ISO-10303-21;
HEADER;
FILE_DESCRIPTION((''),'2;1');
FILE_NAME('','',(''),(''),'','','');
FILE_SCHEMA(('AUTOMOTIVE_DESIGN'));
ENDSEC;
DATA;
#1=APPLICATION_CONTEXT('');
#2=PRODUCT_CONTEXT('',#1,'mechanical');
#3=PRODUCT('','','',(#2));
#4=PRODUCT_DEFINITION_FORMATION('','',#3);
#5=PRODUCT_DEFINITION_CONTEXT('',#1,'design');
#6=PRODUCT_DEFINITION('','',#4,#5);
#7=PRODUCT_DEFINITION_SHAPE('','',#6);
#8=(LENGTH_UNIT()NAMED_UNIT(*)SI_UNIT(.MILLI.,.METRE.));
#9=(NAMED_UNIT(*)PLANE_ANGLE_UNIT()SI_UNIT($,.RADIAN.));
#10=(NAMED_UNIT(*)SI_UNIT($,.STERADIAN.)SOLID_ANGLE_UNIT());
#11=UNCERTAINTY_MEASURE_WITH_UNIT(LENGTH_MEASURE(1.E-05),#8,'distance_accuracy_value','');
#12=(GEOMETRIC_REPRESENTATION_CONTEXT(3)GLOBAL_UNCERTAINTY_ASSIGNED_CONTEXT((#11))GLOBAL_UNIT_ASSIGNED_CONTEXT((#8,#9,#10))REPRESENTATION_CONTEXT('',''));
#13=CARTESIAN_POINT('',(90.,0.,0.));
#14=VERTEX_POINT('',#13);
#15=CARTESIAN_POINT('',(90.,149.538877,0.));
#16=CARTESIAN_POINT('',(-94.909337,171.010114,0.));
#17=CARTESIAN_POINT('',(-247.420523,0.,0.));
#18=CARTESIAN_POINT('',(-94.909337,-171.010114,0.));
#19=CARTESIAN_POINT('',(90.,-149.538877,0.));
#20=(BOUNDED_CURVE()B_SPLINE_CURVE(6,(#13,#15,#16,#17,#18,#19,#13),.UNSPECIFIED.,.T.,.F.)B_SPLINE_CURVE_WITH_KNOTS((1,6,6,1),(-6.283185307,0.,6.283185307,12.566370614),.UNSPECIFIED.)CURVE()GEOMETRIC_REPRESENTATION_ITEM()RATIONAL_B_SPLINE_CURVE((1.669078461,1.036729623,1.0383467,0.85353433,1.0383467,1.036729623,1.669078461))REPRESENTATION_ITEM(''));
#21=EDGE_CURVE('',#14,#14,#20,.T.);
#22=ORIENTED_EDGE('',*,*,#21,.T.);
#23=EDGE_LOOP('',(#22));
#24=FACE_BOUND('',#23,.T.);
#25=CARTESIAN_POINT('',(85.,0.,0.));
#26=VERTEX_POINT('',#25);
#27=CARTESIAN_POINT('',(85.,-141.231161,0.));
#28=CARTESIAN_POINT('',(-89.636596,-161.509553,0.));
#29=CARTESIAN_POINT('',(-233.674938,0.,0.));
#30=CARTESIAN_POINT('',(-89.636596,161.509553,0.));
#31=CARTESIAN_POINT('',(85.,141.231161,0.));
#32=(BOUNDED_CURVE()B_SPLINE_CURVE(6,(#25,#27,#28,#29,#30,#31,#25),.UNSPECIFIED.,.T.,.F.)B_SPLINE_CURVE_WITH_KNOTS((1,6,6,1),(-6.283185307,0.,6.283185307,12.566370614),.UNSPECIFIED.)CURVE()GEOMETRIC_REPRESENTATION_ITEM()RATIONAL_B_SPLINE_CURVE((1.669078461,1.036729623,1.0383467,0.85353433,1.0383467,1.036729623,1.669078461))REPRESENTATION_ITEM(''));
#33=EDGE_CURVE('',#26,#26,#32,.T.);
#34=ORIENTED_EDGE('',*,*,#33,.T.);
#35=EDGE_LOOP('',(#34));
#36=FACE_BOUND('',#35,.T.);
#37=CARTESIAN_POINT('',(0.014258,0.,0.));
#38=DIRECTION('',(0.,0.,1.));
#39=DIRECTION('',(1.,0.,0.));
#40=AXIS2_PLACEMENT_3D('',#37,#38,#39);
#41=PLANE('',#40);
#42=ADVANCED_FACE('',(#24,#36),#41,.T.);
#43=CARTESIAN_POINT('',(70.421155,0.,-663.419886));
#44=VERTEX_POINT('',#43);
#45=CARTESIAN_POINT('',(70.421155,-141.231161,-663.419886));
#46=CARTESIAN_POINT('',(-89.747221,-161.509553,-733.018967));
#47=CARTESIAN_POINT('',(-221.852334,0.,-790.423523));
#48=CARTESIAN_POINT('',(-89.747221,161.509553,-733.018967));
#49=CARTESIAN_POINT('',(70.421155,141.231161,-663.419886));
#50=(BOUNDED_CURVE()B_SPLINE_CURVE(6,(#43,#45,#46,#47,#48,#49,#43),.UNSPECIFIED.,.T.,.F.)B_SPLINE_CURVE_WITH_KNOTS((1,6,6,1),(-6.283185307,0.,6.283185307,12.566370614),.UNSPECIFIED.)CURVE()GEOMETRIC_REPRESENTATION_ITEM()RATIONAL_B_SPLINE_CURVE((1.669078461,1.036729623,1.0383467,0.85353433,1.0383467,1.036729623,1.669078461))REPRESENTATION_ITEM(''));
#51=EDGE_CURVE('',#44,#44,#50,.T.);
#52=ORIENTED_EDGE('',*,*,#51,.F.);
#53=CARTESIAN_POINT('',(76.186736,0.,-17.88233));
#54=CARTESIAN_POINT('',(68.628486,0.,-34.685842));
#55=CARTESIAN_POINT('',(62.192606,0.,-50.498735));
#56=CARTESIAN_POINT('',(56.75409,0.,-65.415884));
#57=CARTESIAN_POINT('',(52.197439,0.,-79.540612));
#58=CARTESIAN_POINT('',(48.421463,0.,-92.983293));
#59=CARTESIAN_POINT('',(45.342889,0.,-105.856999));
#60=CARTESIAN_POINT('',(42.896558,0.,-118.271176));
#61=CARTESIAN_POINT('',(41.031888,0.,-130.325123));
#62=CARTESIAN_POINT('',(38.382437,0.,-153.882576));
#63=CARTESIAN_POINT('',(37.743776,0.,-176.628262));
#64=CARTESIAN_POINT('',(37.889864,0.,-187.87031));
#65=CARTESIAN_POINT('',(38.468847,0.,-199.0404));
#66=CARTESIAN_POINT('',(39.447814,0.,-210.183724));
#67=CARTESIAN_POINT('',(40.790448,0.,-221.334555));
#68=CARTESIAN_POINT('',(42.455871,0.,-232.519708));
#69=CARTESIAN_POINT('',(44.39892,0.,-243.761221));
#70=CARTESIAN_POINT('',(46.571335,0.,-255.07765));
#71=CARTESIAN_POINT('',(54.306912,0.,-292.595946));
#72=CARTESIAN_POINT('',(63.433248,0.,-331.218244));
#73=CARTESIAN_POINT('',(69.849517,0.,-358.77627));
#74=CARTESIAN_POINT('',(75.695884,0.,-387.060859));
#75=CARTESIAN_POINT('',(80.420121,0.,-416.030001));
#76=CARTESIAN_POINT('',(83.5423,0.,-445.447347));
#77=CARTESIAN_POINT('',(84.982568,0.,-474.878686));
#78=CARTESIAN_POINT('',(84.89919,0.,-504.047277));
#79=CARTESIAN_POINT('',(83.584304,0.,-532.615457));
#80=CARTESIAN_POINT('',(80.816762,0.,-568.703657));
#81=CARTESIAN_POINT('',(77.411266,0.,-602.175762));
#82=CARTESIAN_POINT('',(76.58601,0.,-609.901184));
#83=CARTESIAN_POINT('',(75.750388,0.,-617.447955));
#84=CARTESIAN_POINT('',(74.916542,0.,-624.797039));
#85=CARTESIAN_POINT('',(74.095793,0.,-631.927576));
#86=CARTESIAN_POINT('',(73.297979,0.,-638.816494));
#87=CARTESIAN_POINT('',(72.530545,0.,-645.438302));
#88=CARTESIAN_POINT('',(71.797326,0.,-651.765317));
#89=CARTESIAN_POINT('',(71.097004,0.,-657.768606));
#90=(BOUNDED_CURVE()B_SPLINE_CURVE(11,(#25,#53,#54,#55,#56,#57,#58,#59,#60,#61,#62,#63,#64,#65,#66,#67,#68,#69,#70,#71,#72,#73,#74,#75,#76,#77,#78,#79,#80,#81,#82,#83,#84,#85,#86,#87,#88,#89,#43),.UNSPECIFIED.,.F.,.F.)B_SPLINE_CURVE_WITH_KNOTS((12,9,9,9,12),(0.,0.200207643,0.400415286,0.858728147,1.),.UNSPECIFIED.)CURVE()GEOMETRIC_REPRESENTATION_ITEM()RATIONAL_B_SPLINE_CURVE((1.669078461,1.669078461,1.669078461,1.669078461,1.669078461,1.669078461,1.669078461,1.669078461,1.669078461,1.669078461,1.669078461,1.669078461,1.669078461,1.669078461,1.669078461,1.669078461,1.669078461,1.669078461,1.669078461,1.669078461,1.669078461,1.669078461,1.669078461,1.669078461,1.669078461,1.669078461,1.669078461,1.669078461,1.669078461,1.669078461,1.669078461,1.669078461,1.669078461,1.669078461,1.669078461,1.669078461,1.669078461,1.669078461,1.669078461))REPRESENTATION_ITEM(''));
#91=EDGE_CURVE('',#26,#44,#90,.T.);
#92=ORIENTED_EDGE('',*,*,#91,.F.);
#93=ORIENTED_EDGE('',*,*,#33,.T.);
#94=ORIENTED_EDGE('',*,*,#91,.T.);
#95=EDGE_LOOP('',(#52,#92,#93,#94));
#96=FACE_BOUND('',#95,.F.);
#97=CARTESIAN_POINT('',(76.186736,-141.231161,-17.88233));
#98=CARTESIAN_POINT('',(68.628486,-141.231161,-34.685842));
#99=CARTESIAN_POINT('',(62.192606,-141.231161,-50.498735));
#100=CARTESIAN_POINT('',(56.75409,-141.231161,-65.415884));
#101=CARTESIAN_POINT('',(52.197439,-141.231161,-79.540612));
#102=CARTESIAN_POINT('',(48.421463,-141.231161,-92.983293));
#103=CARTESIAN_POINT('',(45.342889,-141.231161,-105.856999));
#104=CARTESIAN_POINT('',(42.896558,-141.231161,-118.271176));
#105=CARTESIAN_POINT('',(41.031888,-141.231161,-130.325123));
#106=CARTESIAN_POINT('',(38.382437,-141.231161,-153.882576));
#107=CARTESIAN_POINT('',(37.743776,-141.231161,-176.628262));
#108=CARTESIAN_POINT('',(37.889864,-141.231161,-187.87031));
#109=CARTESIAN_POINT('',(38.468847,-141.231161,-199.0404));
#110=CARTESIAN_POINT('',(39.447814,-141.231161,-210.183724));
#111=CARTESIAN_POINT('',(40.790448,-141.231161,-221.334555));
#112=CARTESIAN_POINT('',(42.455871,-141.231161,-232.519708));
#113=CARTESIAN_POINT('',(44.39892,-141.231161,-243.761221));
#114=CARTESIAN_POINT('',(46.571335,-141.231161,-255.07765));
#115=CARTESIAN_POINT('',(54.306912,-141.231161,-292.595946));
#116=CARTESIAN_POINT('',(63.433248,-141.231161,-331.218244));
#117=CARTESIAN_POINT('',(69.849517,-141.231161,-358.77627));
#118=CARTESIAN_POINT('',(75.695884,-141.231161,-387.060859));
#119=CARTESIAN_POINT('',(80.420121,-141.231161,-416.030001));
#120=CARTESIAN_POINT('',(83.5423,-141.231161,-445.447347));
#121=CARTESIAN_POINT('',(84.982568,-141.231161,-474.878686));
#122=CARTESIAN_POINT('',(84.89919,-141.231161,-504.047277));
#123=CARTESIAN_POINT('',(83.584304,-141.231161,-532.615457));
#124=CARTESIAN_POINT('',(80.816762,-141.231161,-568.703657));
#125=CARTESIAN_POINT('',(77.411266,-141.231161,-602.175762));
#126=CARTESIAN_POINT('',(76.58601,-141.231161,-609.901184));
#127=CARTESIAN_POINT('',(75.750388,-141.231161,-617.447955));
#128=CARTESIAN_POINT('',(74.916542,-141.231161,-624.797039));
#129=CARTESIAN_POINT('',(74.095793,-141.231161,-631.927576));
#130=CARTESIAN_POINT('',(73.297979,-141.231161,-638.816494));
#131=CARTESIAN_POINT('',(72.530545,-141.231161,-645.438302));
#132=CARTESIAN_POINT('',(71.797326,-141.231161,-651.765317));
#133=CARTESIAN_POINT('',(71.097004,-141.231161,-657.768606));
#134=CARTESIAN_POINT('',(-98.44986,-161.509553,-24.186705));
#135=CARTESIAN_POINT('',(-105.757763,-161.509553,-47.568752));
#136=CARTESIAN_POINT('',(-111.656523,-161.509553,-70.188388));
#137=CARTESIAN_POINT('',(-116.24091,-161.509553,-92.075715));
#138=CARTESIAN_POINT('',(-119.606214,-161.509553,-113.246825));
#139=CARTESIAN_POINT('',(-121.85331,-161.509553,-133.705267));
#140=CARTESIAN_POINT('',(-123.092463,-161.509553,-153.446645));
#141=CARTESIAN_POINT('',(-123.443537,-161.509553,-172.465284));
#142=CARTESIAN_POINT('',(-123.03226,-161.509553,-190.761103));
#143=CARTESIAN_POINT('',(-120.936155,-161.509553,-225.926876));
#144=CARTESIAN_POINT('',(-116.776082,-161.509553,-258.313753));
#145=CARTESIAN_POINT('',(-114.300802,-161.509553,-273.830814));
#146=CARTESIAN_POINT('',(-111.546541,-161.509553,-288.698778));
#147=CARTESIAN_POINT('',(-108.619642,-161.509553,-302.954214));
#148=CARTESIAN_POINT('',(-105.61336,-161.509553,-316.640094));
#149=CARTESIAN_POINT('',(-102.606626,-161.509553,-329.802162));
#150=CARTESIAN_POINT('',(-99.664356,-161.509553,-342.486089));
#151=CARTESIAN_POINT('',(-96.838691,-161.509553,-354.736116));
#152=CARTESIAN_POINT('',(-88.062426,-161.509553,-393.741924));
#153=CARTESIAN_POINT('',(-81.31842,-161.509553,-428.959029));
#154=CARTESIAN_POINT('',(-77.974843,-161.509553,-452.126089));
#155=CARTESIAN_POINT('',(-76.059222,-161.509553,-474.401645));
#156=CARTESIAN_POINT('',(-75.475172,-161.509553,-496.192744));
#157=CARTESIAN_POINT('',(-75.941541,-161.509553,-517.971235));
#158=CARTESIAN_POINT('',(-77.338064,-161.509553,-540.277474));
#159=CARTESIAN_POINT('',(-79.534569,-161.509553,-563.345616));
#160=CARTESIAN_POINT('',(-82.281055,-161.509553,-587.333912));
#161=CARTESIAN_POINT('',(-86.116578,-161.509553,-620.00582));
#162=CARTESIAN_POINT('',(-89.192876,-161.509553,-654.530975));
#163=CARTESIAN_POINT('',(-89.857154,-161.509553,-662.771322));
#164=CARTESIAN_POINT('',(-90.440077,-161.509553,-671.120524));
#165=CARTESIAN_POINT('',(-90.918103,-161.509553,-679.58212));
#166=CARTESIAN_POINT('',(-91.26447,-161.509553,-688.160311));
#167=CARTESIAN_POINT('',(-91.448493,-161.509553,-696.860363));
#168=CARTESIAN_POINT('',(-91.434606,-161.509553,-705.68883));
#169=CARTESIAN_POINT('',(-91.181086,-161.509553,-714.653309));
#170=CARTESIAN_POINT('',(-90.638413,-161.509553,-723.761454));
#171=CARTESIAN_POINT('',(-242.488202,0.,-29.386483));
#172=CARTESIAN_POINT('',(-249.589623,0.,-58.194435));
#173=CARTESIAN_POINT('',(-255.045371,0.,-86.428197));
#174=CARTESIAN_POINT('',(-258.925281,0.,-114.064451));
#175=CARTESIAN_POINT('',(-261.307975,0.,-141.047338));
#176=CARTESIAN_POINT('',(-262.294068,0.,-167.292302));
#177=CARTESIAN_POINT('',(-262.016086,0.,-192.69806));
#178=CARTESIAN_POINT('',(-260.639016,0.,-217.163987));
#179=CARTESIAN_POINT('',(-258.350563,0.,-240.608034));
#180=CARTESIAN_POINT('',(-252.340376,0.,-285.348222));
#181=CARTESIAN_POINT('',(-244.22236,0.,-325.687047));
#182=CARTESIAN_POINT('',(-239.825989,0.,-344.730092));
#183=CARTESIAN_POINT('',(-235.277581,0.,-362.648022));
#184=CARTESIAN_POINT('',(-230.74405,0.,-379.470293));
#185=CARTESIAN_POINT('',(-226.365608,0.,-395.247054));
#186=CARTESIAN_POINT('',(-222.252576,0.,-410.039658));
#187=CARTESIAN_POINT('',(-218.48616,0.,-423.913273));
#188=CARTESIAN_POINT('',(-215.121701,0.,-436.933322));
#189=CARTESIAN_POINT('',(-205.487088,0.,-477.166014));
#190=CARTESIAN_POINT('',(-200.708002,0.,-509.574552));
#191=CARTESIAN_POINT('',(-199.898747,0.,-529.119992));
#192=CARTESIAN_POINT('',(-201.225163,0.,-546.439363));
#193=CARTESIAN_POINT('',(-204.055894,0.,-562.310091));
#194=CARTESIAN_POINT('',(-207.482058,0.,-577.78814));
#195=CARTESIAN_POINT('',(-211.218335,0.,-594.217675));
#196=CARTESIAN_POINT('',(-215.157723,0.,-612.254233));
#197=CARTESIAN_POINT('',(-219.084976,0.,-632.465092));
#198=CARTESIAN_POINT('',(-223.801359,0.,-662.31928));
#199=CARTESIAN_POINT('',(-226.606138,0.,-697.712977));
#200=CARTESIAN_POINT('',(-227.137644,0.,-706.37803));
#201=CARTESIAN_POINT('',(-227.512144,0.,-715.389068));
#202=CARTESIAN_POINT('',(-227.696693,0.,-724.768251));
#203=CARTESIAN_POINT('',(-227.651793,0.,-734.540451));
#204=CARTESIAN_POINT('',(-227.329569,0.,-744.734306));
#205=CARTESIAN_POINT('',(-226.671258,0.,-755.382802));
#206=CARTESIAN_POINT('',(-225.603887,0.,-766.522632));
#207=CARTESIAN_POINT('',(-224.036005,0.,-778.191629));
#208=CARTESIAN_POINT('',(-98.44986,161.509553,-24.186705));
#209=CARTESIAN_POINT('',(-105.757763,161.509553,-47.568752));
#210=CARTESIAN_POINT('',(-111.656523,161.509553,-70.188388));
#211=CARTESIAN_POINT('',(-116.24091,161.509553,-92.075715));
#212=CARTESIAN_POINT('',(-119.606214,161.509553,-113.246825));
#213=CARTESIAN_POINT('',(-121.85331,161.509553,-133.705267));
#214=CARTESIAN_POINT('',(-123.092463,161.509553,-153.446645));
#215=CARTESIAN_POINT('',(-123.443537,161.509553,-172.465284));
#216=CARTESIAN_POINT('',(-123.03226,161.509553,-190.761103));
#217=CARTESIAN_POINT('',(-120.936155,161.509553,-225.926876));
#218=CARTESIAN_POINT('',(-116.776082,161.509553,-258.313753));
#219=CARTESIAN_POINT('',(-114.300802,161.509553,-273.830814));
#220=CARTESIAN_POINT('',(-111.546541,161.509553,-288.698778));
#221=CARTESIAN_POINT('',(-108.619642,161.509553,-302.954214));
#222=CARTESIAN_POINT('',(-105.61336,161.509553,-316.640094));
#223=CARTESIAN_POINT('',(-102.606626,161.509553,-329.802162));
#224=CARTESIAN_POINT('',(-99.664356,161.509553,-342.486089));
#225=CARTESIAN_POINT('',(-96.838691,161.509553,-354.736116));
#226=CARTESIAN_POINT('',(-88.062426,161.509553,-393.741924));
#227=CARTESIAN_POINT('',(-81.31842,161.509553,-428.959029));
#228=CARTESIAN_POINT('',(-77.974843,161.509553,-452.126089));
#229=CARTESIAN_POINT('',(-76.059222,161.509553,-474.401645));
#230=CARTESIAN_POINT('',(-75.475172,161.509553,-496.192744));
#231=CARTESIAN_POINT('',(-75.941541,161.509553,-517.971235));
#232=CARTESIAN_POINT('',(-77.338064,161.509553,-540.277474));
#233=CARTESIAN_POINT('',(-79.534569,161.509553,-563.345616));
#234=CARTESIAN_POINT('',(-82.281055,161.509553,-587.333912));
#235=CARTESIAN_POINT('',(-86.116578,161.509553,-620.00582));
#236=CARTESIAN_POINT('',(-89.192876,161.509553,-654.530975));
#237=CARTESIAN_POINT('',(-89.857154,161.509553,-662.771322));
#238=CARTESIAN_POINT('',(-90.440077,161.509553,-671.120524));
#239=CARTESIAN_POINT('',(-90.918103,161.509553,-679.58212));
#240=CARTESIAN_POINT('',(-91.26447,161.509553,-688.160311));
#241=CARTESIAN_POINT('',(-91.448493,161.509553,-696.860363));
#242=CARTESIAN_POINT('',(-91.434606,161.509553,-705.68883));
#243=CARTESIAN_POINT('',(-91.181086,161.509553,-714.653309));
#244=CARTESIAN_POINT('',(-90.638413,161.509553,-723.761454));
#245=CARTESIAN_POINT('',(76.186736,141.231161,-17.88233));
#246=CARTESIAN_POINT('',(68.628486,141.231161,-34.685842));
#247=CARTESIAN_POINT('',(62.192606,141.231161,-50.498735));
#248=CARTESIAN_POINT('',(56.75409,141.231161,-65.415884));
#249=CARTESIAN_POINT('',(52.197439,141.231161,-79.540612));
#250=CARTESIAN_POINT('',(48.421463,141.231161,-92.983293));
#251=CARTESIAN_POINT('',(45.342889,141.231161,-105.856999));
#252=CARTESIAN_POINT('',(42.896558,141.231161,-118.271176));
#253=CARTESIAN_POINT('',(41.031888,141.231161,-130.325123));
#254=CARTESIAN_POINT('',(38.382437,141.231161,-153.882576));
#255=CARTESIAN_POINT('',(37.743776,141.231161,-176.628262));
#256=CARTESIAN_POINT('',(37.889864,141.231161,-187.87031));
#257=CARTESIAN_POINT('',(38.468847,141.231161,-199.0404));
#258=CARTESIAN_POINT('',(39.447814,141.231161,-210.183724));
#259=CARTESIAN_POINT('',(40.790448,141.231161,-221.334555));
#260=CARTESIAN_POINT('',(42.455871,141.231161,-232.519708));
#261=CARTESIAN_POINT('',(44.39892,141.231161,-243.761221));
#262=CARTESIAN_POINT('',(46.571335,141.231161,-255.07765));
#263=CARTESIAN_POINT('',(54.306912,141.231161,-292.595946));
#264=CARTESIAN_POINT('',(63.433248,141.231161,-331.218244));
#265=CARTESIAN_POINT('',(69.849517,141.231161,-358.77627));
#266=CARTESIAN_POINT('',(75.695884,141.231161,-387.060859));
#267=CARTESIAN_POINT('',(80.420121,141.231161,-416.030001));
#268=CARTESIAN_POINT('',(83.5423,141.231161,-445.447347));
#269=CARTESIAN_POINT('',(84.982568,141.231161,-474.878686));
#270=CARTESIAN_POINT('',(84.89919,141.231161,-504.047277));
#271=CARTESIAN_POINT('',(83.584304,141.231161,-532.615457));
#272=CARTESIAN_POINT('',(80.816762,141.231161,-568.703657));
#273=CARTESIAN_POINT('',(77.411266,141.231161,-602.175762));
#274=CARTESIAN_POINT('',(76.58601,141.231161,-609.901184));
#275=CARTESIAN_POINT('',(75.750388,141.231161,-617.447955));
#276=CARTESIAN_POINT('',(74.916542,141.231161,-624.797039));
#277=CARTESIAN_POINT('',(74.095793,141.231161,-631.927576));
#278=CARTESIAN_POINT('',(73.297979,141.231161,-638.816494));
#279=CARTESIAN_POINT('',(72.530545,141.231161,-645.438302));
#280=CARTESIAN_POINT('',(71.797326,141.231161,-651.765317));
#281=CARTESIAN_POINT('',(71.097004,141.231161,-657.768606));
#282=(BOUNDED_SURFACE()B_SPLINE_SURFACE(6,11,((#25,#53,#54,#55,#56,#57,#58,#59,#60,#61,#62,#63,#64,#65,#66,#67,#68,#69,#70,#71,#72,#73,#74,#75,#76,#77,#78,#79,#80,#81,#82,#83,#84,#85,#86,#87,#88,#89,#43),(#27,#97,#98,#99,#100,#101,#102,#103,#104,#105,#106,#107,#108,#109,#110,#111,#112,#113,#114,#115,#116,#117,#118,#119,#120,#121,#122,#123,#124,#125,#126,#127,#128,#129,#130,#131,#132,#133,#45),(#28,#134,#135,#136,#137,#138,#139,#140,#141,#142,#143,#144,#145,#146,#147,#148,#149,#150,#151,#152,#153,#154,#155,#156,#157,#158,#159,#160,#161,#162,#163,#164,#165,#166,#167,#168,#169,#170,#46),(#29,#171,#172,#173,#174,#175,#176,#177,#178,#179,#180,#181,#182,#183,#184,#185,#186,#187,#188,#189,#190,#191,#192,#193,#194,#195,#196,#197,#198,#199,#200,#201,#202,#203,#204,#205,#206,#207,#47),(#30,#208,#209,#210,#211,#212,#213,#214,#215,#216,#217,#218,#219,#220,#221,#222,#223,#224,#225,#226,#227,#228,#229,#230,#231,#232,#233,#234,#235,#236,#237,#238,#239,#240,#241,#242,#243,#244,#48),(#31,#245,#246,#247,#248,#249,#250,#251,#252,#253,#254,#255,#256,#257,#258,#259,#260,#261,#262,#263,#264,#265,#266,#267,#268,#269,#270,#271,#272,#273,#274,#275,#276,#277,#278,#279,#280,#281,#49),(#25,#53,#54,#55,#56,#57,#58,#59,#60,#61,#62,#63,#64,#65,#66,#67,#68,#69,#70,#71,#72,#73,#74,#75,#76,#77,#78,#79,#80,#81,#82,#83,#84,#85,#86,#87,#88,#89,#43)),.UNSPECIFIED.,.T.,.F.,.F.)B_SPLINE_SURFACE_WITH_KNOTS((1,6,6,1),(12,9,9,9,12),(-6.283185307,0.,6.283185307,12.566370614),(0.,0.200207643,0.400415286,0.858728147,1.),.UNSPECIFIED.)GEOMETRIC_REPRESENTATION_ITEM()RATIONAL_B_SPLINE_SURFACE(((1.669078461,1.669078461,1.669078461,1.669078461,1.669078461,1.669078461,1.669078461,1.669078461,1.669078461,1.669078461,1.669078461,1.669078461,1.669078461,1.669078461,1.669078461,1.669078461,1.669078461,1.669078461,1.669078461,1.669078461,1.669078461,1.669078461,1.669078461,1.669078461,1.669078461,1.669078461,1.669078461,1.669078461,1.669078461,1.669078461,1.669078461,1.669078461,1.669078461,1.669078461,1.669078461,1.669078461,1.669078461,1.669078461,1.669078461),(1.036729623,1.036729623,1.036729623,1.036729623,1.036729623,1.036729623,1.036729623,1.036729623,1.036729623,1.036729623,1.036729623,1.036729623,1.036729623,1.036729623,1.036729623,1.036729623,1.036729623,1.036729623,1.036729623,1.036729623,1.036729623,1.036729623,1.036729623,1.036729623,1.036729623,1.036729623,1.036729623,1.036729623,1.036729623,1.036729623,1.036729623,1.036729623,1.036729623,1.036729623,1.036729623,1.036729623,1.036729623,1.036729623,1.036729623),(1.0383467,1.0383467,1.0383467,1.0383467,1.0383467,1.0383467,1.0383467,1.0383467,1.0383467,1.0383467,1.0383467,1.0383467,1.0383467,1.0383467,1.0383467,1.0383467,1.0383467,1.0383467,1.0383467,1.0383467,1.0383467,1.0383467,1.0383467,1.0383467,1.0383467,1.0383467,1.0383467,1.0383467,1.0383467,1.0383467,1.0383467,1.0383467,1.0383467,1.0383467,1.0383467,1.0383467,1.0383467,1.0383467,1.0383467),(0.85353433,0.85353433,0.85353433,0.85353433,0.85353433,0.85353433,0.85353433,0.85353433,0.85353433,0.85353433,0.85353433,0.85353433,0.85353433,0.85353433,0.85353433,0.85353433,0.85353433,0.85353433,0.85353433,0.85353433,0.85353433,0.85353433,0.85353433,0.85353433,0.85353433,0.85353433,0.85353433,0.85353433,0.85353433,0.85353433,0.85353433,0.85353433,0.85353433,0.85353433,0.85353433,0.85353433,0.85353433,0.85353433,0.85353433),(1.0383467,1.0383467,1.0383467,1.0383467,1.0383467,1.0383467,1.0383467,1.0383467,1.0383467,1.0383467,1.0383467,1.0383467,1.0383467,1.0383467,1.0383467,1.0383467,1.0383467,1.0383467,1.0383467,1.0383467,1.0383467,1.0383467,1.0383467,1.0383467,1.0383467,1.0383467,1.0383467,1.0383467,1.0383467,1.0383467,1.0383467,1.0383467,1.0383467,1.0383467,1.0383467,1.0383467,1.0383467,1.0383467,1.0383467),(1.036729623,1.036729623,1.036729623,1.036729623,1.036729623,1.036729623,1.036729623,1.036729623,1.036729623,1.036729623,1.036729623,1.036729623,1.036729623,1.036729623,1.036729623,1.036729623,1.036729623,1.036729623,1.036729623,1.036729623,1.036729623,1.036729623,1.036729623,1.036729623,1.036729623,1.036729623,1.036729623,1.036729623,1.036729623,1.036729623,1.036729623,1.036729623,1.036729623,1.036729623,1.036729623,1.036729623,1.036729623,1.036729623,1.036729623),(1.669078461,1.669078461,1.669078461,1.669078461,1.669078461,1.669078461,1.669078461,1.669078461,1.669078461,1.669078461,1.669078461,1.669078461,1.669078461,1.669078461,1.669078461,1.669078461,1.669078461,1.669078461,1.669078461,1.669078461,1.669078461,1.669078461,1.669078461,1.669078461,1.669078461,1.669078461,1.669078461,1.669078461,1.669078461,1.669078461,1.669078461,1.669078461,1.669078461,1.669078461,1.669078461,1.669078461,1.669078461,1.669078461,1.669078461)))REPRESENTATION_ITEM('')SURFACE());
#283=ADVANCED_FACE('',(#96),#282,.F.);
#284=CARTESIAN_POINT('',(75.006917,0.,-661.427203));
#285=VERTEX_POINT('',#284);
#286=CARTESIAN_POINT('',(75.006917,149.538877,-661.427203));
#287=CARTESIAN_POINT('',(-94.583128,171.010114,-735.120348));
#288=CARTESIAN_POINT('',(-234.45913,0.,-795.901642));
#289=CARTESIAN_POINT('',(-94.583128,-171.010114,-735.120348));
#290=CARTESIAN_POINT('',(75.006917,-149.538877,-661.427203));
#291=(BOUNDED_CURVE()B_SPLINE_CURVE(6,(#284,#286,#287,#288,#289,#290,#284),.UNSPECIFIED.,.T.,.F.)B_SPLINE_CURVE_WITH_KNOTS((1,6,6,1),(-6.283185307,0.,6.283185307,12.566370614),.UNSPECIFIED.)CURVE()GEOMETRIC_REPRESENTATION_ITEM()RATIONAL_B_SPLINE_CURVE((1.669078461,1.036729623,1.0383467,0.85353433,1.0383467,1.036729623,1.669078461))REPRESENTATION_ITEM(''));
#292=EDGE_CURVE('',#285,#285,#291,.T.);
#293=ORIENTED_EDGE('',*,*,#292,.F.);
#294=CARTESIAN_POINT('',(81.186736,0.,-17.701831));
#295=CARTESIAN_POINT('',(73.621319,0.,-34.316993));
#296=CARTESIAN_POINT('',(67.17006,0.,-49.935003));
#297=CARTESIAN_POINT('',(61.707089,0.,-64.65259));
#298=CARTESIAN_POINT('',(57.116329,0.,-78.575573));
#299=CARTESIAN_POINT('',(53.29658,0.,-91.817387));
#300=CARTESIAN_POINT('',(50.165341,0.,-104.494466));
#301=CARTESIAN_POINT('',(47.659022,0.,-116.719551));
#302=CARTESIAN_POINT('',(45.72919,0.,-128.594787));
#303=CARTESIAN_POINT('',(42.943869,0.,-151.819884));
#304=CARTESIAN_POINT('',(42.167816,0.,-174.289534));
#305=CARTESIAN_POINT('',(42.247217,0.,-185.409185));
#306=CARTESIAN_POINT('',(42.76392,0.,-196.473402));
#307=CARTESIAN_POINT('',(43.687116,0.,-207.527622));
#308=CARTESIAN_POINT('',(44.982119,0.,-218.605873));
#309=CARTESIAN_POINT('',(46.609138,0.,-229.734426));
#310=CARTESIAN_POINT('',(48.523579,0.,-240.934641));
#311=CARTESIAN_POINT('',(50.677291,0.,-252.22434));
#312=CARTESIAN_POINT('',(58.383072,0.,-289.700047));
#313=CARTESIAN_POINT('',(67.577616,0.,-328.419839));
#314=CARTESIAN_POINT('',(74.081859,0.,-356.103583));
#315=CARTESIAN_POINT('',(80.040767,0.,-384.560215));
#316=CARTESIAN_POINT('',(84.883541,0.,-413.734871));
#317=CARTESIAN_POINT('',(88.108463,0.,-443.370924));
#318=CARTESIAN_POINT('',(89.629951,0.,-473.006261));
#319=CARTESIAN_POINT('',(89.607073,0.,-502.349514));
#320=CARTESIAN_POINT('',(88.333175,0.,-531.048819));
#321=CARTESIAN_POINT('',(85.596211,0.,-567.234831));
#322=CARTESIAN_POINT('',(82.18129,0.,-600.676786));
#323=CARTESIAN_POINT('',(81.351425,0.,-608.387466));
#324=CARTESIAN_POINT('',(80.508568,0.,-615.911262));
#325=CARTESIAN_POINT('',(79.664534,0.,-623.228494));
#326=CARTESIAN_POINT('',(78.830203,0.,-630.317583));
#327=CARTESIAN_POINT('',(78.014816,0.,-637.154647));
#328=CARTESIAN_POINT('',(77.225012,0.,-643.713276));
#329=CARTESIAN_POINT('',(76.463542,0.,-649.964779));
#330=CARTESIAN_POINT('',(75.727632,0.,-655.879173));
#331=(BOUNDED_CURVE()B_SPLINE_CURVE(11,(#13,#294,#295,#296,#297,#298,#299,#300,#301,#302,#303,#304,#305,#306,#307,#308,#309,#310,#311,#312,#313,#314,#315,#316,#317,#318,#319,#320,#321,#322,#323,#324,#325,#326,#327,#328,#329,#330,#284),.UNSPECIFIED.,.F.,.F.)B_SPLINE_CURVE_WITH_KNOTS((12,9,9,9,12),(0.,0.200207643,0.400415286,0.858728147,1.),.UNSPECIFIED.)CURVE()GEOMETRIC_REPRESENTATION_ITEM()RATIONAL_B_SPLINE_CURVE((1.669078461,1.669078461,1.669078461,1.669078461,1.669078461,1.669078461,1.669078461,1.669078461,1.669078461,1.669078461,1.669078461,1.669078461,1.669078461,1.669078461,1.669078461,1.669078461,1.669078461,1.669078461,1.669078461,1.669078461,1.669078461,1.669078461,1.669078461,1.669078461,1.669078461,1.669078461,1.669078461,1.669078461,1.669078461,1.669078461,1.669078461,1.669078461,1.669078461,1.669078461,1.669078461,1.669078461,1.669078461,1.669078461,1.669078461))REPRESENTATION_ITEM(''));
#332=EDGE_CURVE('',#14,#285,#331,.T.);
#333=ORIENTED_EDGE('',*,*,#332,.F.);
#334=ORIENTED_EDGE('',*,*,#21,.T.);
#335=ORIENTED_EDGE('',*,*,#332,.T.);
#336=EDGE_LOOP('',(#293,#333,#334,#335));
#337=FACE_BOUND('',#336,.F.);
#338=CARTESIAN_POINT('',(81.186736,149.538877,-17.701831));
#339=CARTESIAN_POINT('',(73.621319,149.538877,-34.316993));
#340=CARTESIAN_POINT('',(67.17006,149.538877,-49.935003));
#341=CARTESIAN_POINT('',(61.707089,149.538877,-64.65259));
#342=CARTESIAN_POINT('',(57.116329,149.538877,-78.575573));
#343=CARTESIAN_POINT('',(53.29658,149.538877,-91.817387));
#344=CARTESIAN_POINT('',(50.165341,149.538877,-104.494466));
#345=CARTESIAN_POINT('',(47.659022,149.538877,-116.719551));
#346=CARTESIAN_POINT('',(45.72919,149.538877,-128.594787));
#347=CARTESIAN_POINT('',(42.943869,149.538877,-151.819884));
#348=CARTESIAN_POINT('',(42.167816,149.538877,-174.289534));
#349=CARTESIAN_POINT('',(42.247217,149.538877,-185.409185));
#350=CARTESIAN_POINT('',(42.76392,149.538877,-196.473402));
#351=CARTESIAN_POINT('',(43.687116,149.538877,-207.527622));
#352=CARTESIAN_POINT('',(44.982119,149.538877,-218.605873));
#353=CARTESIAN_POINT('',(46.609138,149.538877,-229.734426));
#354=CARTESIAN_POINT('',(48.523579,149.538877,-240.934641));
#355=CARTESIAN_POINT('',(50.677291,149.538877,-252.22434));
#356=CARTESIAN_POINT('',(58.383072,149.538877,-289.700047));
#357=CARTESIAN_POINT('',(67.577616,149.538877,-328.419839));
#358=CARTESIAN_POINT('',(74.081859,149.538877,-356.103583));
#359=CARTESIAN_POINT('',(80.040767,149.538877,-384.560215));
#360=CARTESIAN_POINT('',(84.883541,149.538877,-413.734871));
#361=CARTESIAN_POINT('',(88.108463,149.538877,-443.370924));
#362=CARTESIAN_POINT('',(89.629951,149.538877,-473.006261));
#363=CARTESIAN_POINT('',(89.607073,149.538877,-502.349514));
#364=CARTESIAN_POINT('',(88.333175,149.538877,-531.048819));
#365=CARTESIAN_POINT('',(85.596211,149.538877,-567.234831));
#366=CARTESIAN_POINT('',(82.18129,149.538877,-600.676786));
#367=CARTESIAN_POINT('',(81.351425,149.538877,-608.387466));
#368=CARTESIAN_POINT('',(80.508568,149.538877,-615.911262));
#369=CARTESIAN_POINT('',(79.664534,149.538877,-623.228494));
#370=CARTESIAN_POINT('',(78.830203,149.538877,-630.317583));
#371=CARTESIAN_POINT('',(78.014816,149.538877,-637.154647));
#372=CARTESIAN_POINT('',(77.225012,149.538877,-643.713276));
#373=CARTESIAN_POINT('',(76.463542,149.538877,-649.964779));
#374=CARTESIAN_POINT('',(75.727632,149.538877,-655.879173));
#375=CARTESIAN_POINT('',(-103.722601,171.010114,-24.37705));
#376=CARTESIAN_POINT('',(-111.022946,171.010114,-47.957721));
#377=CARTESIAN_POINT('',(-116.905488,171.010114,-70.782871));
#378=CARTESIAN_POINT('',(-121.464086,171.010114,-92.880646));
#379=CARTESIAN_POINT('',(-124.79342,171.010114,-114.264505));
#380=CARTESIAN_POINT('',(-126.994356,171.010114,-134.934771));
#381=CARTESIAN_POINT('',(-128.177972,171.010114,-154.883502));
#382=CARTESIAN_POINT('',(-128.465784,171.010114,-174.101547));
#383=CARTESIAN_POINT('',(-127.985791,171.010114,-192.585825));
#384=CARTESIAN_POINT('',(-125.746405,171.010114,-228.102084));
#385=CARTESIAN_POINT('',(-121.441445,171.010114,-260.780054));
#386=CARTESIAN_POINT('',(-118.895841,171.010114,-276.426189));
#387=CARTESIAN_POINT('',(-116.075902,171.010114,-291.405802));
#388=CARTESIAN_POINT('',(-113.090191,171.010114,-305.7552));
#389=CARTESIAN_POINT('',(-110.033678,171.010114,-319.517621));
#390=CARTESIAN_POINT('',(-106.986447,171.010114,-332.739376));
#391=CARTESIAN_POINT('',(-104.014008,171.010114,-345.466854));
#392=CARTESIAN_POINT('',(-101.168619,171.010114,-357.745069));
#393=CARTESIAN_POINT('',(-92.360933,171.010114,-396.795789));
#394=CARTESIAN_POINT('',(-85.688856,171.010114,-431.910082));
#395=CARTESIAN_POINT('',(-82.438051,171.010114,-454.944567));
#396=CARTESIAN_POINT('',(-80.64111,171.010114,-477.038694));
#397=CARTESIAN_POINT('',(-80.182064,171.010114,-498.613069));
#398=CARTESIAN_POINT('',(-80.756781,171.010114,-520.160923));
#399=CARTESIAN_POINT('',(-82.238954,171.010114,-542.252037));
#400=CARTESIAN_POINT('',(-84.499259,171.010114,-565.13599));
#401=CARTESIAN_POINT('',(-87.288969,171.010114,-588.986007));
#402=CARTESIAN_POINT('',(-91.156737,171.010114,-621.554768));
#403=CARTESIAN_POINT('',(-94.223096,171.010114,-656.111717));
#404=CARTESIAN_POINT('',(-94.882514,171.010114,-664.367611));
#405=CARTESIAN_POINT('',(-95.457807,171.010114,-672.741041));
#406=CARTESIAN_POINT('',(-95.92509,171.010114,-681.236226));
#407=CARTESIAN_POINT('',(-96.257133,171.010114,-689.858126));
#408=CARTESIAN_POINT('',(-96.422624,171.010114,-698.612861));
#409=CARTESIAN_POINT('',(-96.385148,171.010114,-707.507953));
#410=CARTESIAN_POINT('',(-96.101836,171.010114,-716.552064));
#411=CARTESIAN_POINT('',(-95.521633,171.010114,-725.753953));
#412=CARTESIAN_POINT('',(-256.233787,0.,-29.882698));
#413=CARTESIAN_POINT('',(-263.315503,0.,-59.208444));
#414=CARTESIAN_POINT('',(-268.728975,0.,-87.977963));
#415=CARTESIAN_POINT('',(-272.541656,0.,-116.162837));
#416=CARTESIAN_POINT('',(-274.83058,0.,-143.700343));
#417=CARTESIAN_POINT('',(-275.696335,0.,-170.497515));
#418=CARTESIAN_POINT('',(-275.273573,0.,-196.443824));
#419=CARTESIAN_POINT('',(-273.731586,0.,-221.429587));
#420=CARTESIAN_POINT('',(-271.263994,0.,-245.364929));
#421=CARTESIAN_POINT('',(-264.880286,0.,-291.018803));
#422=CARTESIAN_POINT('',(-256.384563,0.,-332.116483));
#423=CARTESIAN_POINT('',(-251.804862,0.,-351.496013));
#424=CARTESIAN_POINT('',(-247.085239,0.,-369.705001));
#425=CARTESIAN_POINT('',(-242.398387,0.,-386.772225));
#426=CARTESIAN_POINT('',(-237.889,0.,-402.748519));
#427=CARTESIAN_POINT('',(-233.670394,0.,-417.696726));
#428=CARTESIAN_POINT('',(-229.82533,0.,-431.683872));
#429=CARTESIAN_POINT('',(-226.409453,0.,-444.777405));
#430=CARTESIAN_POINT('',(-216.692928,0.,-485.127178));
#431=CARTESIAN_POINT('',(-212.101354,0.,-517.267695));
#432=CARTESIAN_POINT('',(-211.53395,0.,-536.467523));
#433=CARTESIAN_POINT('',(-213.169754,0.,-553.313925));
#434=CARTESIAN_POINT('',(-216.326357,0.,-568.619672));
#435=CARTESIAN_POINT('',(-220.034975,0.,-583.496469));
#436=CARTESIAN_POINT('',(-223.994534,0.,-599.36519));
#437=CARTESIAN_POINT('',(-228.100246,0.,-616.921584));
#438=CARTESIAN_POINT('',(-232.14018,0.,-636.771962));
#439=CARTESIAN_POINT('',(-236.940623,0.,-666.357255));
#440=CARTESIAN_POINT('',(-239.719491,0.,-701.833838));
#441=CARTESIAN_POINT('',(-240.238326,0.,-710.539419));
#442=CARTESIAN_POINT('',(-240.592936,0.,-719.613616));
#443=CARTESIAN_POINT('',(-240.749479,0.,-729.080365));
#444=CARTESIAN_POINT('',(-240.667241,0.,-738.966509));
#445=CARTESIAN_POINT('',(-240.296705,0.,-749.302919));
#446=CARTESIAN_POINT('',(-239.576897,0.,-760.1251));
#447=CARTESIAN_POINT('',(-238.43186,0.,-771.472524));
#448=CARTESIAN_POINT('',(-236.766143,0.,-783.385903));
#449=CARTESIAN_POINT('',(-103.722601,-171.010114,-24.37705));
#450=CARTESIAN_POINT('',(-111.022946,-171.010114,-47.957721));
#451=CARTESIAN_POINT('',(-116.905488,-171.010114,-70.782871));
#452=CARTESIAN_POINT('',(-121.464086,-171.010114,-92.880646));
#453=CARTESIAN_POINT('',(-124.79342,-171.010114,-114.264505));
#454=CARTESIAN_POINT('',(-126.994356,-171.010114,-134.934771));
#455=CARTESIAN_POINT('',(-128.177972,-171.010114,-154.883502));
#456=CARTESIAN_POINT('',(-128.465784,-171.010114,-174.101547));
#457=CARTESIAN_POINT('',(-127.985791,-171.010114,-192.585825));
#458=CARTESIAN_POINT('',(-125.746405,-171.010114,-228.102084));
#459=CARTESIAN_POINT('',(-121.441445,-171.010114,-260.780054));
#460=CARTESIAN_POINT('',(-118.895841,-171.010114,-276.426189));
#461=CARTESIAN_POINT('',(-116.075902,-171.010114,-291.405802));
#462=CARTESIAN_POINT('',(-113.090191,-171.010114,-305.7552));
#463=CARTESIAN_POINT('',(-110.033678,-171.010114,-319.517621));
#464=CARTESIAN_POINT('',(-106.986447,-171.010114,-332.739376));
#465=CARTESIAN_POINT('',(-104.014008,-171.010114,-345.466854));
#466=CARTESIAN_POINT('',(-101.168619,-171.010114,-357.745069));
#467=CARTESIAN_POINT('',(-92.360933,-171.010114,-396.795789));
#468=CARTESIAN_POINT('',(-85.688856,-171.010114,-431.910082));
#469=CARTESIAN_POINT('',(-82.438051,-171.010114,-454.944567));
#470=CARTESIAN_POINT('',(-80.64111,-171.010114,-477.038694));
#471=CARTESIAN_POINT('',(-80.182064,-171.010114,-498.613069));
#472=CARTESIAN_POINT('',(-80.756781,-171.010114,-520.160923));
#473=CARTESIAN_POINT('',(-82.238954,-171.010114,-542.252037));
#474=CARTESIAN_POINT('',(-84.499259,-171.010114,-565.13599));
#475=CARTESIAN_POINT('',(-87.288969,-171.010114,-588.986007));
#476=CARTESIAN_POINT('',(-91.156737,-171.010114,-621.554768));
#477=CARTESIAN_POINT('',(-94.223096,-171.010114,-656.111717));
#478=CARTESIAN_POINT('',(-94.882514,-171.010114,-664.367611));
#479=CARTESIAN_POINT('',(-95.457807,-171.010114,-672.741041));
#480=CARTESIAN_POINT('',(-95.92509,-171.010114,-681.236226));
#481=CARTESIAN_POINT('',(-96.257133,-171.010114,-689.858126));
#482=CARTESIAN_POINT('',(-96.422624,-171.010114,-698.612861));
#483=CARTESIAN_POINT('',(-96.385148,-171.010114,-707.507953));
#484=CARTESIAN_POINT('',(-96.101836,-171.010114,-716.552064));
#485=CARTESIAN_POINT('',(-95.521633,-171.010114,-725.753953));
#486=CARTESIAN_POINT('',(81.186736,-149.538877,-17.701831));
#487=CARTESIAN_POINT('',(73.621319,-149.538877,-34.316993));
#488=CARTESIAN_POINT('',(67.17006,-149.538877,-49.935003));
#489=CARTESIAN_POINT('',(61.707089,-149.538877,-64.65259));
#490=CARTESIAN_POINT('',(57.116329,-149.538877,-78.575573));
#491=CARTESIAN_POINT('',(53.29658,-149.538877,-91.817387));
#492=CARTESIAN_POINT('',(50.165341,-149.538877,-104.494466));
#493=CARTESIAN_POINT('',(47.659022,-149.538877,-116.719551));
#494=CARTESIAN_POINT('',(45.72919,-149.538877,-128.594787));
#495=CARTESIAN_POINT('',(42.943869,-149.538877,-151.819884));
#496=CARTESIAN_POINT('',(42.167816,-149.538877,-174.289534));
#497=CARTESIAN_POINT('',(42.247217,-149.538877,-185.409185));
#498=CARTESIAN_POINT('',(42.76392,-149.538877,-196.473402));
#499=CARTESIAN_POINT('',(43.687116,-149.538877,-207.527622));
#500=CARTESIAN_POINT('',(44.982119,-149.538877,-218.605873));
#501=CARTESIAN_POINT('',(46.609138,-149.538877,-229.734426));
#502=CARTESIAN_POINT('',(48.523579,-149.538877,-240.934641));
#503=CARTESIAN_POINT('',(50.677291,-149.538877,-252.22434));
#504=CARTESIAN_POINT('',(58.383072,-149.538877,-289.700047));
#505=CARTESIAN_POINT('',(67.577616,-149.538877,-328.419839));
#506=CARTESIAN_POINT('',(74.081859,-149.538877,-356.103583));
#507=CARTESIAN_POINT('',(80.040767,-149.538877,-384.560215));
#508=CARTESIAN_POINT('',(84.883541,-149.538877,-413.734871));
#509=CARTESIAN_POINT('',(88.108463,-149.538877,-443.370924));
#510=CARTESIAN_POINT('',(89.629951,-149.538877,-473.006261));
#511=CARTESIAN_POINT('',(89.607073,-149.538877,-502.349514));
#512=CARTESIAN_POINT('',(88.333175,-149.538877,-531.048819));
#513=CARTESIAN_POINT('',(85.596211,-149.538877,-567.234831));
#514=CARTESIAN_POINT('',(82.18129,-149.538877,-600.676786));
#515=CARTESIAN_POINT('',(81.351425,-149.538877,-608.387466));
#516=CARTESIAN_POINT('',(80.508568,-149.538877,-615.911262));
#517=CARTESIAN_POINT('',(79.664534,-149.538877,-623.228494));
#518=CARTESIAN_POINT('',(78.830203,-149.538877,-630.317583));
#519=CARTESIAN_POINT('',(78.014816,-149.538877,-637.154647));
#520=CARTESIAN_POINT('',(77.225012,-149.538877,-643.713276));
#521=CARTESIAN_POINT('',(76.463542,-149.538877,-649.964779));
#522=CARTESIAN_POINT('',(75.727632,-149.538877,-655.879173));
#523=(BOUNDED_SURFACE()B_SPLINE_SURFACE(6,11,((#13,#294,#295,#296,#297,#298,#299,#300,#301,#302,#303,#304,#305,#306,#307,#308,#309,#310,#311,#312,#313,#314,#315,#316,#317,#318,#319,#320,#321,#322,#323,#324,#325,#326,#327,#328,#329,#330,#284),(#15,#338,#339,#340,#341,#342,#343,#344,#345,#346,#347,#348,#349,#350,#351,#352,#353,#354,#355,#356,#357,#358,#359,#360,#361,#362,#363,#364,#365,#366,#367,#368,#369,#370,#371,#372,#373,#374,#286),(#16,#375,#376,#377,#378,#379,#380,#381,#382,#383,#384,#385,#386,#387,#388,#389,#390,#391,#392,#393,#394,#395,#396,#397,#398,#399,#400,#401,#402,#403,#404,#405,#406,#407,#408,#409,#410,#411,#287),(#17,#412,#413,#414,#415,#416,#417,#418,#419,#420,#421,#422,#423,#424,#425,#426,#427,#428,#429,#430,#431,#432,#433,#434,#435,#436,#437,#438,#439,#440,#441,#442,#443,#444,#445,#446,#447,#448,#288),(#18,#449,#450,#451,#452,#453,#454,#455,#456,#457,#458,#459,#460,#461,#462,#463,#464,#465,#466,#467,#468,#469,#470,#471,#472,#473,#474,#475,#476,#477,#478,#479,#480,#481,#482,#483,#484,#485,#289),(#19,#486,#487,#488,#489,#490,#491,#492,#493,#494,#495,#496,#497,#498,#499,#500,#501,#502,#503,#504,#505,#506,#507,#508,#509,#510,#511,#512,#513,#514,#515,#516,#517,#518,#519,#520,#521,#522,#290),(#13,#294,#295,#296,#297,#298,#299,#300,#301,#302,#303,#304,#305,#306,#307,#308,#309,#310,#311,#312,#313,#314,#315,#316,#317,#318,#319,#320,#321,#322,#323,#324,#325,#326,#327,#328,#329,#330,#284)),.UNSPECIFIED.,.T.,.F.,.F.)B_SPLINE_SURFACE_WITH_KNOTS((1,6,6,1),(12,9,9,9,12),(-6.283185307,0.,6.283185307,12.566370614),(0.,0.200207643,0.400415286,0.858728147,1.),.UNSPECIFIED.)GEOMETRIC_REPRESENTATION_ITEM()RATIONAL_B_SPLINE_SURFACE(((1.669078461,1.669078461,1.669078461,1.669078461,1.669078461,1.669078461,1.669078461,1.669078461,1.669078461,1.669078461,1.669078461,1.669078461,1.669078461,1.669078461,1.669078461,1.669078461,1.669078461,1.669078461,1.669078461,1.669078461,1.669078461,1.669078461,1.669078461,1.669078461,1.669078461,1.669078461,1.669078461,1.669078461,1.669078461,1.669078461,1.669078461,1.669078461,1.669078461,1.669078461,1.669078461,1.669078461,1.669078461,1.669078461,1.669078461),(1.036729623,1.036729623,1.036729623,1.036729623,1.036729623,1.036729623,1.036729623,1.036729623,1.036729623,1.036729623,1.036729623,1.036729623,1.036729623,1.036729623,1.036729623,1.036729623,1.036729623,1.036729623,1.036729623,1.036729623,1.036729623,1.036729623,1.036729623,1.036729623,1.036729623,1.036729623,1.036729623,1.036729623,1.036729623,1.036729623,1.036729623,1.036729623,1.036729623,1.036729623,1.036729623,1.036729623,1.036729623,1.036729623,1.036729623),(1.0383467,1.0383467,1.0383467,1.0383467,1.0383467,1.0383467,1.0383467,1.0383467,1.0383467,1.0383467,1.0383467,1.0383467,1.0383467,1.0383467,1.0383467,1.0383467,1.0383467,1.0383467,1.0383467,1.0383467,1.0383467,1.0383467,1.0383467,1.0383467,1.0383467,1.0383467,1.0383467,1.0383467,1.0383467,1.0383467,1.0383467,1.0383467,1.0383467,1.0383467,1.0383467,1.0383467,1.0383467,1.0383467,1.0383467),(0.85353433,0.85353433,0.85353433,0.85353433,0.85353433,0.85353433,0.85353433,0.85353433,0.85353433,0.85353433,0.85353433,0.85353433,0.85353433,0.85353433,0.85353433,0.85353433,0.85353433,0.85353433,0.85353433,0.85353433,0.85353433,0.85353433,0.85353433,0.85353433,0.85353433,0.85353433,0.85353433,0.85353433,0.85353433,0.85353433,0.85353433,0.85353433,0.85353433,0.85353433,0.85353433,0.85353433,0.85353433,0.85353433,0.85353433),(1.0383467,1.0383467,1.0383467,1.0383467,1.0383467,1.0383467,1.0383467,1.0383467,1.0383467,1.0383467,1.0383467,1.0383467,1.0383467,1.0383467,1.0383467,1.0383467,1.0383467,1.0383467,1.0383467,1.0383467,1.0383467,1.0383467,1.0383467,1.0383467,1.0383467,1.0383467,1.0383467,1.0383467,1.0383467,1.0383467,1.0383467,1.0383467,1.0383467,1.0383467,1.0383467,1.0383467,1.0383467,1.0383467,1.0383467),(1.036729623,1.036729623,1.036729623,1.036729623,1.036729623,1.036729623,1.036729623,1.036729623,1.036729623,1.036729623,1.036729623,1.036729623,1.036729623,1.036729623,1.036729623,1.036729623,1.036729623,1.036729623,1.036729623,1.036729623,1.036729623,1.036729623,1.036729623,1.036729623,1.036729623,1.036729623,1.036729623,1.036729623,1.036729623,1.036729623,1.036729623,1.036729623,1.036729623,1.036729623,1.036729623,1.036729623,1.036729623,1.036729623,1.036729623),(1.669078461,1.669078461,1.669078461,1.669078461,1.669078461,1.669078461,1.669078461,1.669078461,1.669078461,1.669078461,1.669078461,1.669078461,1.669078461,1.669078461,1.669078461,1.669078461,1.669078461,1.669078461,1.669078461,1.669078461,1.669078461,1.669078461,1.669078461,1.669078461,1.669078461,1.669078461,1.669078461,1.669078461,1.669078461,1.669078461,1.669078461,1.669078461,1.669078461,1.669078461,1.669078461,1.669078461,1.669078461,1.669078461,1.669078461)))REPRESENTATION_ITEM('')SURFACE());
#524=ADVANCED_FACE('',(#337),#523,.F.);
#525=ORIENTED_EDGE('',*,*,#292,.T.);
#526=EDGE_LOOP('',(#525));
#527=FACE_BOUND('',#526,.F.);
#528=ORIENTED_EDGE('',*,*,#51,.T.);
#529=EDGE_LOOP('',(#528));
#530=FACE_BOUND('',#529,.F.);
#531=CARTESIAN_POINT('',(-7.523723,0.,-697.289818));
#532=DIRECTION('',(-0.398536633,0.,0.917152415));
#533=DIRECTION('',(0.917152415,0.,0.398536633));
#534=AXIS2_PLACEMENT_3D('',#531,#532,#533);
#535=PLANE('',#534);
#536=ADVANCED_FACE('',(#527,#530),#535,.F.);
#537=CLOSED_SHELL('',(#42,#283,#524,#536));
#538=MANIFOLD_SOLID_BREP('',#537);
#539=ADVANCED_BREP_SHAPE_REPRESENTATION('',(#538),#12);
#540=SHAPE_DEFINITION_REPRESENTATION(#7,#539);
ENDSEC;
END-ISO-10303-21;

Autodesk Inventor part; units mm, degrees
ref_plane "YZ Plane" through (0, 0, 0) normal (1, 0, 0) x (0, 1, 0)
ref_plane "XZ Plane" through (0, 0, 0) normal (0, 1, 0) x (-1, 0, 0)
ref_plane "XY Plane" through (0, 0, 0) normal (0, 0, 1) x (1, 0, 0)
sketch "Skizze1" plane through (0, 0, 0) normal (0, 0, 1) x (1, 0, 0)
  circle A0 centre (0, 0) radius 85
  circle A1 centre (0, 0) radius 90
  dimension "d0" = 170
  dimension "d1" = 180
sketch "Skizze2" plane through (0, 0, 0) normal (0, 1, 0) x (-1, 0, 0)
  spline S0 degree 4 poles (0, 0) (121.0567, -287.7751) (-72.7639, -359.3504) (9.2278, -553.12) (7.5368, -697.2955) knots 0 0 0 0 0 1 1 1 1 1
  line L0 (8.3346, -629.2733) -> (6.7389, -765.3176) construction
  arc A0 (2.4963, -750.9318) -> (3.7557, -643.5556) centre (-321.4192, -693.4372) ccw construction
  point P0 (18.675, -324.7179)
  point P1 (-4.4975, -511.6538)
sweep "Sweeping1" add profiles "Skizze1" path "Skizze2"
properties part number "Rohr_1"
